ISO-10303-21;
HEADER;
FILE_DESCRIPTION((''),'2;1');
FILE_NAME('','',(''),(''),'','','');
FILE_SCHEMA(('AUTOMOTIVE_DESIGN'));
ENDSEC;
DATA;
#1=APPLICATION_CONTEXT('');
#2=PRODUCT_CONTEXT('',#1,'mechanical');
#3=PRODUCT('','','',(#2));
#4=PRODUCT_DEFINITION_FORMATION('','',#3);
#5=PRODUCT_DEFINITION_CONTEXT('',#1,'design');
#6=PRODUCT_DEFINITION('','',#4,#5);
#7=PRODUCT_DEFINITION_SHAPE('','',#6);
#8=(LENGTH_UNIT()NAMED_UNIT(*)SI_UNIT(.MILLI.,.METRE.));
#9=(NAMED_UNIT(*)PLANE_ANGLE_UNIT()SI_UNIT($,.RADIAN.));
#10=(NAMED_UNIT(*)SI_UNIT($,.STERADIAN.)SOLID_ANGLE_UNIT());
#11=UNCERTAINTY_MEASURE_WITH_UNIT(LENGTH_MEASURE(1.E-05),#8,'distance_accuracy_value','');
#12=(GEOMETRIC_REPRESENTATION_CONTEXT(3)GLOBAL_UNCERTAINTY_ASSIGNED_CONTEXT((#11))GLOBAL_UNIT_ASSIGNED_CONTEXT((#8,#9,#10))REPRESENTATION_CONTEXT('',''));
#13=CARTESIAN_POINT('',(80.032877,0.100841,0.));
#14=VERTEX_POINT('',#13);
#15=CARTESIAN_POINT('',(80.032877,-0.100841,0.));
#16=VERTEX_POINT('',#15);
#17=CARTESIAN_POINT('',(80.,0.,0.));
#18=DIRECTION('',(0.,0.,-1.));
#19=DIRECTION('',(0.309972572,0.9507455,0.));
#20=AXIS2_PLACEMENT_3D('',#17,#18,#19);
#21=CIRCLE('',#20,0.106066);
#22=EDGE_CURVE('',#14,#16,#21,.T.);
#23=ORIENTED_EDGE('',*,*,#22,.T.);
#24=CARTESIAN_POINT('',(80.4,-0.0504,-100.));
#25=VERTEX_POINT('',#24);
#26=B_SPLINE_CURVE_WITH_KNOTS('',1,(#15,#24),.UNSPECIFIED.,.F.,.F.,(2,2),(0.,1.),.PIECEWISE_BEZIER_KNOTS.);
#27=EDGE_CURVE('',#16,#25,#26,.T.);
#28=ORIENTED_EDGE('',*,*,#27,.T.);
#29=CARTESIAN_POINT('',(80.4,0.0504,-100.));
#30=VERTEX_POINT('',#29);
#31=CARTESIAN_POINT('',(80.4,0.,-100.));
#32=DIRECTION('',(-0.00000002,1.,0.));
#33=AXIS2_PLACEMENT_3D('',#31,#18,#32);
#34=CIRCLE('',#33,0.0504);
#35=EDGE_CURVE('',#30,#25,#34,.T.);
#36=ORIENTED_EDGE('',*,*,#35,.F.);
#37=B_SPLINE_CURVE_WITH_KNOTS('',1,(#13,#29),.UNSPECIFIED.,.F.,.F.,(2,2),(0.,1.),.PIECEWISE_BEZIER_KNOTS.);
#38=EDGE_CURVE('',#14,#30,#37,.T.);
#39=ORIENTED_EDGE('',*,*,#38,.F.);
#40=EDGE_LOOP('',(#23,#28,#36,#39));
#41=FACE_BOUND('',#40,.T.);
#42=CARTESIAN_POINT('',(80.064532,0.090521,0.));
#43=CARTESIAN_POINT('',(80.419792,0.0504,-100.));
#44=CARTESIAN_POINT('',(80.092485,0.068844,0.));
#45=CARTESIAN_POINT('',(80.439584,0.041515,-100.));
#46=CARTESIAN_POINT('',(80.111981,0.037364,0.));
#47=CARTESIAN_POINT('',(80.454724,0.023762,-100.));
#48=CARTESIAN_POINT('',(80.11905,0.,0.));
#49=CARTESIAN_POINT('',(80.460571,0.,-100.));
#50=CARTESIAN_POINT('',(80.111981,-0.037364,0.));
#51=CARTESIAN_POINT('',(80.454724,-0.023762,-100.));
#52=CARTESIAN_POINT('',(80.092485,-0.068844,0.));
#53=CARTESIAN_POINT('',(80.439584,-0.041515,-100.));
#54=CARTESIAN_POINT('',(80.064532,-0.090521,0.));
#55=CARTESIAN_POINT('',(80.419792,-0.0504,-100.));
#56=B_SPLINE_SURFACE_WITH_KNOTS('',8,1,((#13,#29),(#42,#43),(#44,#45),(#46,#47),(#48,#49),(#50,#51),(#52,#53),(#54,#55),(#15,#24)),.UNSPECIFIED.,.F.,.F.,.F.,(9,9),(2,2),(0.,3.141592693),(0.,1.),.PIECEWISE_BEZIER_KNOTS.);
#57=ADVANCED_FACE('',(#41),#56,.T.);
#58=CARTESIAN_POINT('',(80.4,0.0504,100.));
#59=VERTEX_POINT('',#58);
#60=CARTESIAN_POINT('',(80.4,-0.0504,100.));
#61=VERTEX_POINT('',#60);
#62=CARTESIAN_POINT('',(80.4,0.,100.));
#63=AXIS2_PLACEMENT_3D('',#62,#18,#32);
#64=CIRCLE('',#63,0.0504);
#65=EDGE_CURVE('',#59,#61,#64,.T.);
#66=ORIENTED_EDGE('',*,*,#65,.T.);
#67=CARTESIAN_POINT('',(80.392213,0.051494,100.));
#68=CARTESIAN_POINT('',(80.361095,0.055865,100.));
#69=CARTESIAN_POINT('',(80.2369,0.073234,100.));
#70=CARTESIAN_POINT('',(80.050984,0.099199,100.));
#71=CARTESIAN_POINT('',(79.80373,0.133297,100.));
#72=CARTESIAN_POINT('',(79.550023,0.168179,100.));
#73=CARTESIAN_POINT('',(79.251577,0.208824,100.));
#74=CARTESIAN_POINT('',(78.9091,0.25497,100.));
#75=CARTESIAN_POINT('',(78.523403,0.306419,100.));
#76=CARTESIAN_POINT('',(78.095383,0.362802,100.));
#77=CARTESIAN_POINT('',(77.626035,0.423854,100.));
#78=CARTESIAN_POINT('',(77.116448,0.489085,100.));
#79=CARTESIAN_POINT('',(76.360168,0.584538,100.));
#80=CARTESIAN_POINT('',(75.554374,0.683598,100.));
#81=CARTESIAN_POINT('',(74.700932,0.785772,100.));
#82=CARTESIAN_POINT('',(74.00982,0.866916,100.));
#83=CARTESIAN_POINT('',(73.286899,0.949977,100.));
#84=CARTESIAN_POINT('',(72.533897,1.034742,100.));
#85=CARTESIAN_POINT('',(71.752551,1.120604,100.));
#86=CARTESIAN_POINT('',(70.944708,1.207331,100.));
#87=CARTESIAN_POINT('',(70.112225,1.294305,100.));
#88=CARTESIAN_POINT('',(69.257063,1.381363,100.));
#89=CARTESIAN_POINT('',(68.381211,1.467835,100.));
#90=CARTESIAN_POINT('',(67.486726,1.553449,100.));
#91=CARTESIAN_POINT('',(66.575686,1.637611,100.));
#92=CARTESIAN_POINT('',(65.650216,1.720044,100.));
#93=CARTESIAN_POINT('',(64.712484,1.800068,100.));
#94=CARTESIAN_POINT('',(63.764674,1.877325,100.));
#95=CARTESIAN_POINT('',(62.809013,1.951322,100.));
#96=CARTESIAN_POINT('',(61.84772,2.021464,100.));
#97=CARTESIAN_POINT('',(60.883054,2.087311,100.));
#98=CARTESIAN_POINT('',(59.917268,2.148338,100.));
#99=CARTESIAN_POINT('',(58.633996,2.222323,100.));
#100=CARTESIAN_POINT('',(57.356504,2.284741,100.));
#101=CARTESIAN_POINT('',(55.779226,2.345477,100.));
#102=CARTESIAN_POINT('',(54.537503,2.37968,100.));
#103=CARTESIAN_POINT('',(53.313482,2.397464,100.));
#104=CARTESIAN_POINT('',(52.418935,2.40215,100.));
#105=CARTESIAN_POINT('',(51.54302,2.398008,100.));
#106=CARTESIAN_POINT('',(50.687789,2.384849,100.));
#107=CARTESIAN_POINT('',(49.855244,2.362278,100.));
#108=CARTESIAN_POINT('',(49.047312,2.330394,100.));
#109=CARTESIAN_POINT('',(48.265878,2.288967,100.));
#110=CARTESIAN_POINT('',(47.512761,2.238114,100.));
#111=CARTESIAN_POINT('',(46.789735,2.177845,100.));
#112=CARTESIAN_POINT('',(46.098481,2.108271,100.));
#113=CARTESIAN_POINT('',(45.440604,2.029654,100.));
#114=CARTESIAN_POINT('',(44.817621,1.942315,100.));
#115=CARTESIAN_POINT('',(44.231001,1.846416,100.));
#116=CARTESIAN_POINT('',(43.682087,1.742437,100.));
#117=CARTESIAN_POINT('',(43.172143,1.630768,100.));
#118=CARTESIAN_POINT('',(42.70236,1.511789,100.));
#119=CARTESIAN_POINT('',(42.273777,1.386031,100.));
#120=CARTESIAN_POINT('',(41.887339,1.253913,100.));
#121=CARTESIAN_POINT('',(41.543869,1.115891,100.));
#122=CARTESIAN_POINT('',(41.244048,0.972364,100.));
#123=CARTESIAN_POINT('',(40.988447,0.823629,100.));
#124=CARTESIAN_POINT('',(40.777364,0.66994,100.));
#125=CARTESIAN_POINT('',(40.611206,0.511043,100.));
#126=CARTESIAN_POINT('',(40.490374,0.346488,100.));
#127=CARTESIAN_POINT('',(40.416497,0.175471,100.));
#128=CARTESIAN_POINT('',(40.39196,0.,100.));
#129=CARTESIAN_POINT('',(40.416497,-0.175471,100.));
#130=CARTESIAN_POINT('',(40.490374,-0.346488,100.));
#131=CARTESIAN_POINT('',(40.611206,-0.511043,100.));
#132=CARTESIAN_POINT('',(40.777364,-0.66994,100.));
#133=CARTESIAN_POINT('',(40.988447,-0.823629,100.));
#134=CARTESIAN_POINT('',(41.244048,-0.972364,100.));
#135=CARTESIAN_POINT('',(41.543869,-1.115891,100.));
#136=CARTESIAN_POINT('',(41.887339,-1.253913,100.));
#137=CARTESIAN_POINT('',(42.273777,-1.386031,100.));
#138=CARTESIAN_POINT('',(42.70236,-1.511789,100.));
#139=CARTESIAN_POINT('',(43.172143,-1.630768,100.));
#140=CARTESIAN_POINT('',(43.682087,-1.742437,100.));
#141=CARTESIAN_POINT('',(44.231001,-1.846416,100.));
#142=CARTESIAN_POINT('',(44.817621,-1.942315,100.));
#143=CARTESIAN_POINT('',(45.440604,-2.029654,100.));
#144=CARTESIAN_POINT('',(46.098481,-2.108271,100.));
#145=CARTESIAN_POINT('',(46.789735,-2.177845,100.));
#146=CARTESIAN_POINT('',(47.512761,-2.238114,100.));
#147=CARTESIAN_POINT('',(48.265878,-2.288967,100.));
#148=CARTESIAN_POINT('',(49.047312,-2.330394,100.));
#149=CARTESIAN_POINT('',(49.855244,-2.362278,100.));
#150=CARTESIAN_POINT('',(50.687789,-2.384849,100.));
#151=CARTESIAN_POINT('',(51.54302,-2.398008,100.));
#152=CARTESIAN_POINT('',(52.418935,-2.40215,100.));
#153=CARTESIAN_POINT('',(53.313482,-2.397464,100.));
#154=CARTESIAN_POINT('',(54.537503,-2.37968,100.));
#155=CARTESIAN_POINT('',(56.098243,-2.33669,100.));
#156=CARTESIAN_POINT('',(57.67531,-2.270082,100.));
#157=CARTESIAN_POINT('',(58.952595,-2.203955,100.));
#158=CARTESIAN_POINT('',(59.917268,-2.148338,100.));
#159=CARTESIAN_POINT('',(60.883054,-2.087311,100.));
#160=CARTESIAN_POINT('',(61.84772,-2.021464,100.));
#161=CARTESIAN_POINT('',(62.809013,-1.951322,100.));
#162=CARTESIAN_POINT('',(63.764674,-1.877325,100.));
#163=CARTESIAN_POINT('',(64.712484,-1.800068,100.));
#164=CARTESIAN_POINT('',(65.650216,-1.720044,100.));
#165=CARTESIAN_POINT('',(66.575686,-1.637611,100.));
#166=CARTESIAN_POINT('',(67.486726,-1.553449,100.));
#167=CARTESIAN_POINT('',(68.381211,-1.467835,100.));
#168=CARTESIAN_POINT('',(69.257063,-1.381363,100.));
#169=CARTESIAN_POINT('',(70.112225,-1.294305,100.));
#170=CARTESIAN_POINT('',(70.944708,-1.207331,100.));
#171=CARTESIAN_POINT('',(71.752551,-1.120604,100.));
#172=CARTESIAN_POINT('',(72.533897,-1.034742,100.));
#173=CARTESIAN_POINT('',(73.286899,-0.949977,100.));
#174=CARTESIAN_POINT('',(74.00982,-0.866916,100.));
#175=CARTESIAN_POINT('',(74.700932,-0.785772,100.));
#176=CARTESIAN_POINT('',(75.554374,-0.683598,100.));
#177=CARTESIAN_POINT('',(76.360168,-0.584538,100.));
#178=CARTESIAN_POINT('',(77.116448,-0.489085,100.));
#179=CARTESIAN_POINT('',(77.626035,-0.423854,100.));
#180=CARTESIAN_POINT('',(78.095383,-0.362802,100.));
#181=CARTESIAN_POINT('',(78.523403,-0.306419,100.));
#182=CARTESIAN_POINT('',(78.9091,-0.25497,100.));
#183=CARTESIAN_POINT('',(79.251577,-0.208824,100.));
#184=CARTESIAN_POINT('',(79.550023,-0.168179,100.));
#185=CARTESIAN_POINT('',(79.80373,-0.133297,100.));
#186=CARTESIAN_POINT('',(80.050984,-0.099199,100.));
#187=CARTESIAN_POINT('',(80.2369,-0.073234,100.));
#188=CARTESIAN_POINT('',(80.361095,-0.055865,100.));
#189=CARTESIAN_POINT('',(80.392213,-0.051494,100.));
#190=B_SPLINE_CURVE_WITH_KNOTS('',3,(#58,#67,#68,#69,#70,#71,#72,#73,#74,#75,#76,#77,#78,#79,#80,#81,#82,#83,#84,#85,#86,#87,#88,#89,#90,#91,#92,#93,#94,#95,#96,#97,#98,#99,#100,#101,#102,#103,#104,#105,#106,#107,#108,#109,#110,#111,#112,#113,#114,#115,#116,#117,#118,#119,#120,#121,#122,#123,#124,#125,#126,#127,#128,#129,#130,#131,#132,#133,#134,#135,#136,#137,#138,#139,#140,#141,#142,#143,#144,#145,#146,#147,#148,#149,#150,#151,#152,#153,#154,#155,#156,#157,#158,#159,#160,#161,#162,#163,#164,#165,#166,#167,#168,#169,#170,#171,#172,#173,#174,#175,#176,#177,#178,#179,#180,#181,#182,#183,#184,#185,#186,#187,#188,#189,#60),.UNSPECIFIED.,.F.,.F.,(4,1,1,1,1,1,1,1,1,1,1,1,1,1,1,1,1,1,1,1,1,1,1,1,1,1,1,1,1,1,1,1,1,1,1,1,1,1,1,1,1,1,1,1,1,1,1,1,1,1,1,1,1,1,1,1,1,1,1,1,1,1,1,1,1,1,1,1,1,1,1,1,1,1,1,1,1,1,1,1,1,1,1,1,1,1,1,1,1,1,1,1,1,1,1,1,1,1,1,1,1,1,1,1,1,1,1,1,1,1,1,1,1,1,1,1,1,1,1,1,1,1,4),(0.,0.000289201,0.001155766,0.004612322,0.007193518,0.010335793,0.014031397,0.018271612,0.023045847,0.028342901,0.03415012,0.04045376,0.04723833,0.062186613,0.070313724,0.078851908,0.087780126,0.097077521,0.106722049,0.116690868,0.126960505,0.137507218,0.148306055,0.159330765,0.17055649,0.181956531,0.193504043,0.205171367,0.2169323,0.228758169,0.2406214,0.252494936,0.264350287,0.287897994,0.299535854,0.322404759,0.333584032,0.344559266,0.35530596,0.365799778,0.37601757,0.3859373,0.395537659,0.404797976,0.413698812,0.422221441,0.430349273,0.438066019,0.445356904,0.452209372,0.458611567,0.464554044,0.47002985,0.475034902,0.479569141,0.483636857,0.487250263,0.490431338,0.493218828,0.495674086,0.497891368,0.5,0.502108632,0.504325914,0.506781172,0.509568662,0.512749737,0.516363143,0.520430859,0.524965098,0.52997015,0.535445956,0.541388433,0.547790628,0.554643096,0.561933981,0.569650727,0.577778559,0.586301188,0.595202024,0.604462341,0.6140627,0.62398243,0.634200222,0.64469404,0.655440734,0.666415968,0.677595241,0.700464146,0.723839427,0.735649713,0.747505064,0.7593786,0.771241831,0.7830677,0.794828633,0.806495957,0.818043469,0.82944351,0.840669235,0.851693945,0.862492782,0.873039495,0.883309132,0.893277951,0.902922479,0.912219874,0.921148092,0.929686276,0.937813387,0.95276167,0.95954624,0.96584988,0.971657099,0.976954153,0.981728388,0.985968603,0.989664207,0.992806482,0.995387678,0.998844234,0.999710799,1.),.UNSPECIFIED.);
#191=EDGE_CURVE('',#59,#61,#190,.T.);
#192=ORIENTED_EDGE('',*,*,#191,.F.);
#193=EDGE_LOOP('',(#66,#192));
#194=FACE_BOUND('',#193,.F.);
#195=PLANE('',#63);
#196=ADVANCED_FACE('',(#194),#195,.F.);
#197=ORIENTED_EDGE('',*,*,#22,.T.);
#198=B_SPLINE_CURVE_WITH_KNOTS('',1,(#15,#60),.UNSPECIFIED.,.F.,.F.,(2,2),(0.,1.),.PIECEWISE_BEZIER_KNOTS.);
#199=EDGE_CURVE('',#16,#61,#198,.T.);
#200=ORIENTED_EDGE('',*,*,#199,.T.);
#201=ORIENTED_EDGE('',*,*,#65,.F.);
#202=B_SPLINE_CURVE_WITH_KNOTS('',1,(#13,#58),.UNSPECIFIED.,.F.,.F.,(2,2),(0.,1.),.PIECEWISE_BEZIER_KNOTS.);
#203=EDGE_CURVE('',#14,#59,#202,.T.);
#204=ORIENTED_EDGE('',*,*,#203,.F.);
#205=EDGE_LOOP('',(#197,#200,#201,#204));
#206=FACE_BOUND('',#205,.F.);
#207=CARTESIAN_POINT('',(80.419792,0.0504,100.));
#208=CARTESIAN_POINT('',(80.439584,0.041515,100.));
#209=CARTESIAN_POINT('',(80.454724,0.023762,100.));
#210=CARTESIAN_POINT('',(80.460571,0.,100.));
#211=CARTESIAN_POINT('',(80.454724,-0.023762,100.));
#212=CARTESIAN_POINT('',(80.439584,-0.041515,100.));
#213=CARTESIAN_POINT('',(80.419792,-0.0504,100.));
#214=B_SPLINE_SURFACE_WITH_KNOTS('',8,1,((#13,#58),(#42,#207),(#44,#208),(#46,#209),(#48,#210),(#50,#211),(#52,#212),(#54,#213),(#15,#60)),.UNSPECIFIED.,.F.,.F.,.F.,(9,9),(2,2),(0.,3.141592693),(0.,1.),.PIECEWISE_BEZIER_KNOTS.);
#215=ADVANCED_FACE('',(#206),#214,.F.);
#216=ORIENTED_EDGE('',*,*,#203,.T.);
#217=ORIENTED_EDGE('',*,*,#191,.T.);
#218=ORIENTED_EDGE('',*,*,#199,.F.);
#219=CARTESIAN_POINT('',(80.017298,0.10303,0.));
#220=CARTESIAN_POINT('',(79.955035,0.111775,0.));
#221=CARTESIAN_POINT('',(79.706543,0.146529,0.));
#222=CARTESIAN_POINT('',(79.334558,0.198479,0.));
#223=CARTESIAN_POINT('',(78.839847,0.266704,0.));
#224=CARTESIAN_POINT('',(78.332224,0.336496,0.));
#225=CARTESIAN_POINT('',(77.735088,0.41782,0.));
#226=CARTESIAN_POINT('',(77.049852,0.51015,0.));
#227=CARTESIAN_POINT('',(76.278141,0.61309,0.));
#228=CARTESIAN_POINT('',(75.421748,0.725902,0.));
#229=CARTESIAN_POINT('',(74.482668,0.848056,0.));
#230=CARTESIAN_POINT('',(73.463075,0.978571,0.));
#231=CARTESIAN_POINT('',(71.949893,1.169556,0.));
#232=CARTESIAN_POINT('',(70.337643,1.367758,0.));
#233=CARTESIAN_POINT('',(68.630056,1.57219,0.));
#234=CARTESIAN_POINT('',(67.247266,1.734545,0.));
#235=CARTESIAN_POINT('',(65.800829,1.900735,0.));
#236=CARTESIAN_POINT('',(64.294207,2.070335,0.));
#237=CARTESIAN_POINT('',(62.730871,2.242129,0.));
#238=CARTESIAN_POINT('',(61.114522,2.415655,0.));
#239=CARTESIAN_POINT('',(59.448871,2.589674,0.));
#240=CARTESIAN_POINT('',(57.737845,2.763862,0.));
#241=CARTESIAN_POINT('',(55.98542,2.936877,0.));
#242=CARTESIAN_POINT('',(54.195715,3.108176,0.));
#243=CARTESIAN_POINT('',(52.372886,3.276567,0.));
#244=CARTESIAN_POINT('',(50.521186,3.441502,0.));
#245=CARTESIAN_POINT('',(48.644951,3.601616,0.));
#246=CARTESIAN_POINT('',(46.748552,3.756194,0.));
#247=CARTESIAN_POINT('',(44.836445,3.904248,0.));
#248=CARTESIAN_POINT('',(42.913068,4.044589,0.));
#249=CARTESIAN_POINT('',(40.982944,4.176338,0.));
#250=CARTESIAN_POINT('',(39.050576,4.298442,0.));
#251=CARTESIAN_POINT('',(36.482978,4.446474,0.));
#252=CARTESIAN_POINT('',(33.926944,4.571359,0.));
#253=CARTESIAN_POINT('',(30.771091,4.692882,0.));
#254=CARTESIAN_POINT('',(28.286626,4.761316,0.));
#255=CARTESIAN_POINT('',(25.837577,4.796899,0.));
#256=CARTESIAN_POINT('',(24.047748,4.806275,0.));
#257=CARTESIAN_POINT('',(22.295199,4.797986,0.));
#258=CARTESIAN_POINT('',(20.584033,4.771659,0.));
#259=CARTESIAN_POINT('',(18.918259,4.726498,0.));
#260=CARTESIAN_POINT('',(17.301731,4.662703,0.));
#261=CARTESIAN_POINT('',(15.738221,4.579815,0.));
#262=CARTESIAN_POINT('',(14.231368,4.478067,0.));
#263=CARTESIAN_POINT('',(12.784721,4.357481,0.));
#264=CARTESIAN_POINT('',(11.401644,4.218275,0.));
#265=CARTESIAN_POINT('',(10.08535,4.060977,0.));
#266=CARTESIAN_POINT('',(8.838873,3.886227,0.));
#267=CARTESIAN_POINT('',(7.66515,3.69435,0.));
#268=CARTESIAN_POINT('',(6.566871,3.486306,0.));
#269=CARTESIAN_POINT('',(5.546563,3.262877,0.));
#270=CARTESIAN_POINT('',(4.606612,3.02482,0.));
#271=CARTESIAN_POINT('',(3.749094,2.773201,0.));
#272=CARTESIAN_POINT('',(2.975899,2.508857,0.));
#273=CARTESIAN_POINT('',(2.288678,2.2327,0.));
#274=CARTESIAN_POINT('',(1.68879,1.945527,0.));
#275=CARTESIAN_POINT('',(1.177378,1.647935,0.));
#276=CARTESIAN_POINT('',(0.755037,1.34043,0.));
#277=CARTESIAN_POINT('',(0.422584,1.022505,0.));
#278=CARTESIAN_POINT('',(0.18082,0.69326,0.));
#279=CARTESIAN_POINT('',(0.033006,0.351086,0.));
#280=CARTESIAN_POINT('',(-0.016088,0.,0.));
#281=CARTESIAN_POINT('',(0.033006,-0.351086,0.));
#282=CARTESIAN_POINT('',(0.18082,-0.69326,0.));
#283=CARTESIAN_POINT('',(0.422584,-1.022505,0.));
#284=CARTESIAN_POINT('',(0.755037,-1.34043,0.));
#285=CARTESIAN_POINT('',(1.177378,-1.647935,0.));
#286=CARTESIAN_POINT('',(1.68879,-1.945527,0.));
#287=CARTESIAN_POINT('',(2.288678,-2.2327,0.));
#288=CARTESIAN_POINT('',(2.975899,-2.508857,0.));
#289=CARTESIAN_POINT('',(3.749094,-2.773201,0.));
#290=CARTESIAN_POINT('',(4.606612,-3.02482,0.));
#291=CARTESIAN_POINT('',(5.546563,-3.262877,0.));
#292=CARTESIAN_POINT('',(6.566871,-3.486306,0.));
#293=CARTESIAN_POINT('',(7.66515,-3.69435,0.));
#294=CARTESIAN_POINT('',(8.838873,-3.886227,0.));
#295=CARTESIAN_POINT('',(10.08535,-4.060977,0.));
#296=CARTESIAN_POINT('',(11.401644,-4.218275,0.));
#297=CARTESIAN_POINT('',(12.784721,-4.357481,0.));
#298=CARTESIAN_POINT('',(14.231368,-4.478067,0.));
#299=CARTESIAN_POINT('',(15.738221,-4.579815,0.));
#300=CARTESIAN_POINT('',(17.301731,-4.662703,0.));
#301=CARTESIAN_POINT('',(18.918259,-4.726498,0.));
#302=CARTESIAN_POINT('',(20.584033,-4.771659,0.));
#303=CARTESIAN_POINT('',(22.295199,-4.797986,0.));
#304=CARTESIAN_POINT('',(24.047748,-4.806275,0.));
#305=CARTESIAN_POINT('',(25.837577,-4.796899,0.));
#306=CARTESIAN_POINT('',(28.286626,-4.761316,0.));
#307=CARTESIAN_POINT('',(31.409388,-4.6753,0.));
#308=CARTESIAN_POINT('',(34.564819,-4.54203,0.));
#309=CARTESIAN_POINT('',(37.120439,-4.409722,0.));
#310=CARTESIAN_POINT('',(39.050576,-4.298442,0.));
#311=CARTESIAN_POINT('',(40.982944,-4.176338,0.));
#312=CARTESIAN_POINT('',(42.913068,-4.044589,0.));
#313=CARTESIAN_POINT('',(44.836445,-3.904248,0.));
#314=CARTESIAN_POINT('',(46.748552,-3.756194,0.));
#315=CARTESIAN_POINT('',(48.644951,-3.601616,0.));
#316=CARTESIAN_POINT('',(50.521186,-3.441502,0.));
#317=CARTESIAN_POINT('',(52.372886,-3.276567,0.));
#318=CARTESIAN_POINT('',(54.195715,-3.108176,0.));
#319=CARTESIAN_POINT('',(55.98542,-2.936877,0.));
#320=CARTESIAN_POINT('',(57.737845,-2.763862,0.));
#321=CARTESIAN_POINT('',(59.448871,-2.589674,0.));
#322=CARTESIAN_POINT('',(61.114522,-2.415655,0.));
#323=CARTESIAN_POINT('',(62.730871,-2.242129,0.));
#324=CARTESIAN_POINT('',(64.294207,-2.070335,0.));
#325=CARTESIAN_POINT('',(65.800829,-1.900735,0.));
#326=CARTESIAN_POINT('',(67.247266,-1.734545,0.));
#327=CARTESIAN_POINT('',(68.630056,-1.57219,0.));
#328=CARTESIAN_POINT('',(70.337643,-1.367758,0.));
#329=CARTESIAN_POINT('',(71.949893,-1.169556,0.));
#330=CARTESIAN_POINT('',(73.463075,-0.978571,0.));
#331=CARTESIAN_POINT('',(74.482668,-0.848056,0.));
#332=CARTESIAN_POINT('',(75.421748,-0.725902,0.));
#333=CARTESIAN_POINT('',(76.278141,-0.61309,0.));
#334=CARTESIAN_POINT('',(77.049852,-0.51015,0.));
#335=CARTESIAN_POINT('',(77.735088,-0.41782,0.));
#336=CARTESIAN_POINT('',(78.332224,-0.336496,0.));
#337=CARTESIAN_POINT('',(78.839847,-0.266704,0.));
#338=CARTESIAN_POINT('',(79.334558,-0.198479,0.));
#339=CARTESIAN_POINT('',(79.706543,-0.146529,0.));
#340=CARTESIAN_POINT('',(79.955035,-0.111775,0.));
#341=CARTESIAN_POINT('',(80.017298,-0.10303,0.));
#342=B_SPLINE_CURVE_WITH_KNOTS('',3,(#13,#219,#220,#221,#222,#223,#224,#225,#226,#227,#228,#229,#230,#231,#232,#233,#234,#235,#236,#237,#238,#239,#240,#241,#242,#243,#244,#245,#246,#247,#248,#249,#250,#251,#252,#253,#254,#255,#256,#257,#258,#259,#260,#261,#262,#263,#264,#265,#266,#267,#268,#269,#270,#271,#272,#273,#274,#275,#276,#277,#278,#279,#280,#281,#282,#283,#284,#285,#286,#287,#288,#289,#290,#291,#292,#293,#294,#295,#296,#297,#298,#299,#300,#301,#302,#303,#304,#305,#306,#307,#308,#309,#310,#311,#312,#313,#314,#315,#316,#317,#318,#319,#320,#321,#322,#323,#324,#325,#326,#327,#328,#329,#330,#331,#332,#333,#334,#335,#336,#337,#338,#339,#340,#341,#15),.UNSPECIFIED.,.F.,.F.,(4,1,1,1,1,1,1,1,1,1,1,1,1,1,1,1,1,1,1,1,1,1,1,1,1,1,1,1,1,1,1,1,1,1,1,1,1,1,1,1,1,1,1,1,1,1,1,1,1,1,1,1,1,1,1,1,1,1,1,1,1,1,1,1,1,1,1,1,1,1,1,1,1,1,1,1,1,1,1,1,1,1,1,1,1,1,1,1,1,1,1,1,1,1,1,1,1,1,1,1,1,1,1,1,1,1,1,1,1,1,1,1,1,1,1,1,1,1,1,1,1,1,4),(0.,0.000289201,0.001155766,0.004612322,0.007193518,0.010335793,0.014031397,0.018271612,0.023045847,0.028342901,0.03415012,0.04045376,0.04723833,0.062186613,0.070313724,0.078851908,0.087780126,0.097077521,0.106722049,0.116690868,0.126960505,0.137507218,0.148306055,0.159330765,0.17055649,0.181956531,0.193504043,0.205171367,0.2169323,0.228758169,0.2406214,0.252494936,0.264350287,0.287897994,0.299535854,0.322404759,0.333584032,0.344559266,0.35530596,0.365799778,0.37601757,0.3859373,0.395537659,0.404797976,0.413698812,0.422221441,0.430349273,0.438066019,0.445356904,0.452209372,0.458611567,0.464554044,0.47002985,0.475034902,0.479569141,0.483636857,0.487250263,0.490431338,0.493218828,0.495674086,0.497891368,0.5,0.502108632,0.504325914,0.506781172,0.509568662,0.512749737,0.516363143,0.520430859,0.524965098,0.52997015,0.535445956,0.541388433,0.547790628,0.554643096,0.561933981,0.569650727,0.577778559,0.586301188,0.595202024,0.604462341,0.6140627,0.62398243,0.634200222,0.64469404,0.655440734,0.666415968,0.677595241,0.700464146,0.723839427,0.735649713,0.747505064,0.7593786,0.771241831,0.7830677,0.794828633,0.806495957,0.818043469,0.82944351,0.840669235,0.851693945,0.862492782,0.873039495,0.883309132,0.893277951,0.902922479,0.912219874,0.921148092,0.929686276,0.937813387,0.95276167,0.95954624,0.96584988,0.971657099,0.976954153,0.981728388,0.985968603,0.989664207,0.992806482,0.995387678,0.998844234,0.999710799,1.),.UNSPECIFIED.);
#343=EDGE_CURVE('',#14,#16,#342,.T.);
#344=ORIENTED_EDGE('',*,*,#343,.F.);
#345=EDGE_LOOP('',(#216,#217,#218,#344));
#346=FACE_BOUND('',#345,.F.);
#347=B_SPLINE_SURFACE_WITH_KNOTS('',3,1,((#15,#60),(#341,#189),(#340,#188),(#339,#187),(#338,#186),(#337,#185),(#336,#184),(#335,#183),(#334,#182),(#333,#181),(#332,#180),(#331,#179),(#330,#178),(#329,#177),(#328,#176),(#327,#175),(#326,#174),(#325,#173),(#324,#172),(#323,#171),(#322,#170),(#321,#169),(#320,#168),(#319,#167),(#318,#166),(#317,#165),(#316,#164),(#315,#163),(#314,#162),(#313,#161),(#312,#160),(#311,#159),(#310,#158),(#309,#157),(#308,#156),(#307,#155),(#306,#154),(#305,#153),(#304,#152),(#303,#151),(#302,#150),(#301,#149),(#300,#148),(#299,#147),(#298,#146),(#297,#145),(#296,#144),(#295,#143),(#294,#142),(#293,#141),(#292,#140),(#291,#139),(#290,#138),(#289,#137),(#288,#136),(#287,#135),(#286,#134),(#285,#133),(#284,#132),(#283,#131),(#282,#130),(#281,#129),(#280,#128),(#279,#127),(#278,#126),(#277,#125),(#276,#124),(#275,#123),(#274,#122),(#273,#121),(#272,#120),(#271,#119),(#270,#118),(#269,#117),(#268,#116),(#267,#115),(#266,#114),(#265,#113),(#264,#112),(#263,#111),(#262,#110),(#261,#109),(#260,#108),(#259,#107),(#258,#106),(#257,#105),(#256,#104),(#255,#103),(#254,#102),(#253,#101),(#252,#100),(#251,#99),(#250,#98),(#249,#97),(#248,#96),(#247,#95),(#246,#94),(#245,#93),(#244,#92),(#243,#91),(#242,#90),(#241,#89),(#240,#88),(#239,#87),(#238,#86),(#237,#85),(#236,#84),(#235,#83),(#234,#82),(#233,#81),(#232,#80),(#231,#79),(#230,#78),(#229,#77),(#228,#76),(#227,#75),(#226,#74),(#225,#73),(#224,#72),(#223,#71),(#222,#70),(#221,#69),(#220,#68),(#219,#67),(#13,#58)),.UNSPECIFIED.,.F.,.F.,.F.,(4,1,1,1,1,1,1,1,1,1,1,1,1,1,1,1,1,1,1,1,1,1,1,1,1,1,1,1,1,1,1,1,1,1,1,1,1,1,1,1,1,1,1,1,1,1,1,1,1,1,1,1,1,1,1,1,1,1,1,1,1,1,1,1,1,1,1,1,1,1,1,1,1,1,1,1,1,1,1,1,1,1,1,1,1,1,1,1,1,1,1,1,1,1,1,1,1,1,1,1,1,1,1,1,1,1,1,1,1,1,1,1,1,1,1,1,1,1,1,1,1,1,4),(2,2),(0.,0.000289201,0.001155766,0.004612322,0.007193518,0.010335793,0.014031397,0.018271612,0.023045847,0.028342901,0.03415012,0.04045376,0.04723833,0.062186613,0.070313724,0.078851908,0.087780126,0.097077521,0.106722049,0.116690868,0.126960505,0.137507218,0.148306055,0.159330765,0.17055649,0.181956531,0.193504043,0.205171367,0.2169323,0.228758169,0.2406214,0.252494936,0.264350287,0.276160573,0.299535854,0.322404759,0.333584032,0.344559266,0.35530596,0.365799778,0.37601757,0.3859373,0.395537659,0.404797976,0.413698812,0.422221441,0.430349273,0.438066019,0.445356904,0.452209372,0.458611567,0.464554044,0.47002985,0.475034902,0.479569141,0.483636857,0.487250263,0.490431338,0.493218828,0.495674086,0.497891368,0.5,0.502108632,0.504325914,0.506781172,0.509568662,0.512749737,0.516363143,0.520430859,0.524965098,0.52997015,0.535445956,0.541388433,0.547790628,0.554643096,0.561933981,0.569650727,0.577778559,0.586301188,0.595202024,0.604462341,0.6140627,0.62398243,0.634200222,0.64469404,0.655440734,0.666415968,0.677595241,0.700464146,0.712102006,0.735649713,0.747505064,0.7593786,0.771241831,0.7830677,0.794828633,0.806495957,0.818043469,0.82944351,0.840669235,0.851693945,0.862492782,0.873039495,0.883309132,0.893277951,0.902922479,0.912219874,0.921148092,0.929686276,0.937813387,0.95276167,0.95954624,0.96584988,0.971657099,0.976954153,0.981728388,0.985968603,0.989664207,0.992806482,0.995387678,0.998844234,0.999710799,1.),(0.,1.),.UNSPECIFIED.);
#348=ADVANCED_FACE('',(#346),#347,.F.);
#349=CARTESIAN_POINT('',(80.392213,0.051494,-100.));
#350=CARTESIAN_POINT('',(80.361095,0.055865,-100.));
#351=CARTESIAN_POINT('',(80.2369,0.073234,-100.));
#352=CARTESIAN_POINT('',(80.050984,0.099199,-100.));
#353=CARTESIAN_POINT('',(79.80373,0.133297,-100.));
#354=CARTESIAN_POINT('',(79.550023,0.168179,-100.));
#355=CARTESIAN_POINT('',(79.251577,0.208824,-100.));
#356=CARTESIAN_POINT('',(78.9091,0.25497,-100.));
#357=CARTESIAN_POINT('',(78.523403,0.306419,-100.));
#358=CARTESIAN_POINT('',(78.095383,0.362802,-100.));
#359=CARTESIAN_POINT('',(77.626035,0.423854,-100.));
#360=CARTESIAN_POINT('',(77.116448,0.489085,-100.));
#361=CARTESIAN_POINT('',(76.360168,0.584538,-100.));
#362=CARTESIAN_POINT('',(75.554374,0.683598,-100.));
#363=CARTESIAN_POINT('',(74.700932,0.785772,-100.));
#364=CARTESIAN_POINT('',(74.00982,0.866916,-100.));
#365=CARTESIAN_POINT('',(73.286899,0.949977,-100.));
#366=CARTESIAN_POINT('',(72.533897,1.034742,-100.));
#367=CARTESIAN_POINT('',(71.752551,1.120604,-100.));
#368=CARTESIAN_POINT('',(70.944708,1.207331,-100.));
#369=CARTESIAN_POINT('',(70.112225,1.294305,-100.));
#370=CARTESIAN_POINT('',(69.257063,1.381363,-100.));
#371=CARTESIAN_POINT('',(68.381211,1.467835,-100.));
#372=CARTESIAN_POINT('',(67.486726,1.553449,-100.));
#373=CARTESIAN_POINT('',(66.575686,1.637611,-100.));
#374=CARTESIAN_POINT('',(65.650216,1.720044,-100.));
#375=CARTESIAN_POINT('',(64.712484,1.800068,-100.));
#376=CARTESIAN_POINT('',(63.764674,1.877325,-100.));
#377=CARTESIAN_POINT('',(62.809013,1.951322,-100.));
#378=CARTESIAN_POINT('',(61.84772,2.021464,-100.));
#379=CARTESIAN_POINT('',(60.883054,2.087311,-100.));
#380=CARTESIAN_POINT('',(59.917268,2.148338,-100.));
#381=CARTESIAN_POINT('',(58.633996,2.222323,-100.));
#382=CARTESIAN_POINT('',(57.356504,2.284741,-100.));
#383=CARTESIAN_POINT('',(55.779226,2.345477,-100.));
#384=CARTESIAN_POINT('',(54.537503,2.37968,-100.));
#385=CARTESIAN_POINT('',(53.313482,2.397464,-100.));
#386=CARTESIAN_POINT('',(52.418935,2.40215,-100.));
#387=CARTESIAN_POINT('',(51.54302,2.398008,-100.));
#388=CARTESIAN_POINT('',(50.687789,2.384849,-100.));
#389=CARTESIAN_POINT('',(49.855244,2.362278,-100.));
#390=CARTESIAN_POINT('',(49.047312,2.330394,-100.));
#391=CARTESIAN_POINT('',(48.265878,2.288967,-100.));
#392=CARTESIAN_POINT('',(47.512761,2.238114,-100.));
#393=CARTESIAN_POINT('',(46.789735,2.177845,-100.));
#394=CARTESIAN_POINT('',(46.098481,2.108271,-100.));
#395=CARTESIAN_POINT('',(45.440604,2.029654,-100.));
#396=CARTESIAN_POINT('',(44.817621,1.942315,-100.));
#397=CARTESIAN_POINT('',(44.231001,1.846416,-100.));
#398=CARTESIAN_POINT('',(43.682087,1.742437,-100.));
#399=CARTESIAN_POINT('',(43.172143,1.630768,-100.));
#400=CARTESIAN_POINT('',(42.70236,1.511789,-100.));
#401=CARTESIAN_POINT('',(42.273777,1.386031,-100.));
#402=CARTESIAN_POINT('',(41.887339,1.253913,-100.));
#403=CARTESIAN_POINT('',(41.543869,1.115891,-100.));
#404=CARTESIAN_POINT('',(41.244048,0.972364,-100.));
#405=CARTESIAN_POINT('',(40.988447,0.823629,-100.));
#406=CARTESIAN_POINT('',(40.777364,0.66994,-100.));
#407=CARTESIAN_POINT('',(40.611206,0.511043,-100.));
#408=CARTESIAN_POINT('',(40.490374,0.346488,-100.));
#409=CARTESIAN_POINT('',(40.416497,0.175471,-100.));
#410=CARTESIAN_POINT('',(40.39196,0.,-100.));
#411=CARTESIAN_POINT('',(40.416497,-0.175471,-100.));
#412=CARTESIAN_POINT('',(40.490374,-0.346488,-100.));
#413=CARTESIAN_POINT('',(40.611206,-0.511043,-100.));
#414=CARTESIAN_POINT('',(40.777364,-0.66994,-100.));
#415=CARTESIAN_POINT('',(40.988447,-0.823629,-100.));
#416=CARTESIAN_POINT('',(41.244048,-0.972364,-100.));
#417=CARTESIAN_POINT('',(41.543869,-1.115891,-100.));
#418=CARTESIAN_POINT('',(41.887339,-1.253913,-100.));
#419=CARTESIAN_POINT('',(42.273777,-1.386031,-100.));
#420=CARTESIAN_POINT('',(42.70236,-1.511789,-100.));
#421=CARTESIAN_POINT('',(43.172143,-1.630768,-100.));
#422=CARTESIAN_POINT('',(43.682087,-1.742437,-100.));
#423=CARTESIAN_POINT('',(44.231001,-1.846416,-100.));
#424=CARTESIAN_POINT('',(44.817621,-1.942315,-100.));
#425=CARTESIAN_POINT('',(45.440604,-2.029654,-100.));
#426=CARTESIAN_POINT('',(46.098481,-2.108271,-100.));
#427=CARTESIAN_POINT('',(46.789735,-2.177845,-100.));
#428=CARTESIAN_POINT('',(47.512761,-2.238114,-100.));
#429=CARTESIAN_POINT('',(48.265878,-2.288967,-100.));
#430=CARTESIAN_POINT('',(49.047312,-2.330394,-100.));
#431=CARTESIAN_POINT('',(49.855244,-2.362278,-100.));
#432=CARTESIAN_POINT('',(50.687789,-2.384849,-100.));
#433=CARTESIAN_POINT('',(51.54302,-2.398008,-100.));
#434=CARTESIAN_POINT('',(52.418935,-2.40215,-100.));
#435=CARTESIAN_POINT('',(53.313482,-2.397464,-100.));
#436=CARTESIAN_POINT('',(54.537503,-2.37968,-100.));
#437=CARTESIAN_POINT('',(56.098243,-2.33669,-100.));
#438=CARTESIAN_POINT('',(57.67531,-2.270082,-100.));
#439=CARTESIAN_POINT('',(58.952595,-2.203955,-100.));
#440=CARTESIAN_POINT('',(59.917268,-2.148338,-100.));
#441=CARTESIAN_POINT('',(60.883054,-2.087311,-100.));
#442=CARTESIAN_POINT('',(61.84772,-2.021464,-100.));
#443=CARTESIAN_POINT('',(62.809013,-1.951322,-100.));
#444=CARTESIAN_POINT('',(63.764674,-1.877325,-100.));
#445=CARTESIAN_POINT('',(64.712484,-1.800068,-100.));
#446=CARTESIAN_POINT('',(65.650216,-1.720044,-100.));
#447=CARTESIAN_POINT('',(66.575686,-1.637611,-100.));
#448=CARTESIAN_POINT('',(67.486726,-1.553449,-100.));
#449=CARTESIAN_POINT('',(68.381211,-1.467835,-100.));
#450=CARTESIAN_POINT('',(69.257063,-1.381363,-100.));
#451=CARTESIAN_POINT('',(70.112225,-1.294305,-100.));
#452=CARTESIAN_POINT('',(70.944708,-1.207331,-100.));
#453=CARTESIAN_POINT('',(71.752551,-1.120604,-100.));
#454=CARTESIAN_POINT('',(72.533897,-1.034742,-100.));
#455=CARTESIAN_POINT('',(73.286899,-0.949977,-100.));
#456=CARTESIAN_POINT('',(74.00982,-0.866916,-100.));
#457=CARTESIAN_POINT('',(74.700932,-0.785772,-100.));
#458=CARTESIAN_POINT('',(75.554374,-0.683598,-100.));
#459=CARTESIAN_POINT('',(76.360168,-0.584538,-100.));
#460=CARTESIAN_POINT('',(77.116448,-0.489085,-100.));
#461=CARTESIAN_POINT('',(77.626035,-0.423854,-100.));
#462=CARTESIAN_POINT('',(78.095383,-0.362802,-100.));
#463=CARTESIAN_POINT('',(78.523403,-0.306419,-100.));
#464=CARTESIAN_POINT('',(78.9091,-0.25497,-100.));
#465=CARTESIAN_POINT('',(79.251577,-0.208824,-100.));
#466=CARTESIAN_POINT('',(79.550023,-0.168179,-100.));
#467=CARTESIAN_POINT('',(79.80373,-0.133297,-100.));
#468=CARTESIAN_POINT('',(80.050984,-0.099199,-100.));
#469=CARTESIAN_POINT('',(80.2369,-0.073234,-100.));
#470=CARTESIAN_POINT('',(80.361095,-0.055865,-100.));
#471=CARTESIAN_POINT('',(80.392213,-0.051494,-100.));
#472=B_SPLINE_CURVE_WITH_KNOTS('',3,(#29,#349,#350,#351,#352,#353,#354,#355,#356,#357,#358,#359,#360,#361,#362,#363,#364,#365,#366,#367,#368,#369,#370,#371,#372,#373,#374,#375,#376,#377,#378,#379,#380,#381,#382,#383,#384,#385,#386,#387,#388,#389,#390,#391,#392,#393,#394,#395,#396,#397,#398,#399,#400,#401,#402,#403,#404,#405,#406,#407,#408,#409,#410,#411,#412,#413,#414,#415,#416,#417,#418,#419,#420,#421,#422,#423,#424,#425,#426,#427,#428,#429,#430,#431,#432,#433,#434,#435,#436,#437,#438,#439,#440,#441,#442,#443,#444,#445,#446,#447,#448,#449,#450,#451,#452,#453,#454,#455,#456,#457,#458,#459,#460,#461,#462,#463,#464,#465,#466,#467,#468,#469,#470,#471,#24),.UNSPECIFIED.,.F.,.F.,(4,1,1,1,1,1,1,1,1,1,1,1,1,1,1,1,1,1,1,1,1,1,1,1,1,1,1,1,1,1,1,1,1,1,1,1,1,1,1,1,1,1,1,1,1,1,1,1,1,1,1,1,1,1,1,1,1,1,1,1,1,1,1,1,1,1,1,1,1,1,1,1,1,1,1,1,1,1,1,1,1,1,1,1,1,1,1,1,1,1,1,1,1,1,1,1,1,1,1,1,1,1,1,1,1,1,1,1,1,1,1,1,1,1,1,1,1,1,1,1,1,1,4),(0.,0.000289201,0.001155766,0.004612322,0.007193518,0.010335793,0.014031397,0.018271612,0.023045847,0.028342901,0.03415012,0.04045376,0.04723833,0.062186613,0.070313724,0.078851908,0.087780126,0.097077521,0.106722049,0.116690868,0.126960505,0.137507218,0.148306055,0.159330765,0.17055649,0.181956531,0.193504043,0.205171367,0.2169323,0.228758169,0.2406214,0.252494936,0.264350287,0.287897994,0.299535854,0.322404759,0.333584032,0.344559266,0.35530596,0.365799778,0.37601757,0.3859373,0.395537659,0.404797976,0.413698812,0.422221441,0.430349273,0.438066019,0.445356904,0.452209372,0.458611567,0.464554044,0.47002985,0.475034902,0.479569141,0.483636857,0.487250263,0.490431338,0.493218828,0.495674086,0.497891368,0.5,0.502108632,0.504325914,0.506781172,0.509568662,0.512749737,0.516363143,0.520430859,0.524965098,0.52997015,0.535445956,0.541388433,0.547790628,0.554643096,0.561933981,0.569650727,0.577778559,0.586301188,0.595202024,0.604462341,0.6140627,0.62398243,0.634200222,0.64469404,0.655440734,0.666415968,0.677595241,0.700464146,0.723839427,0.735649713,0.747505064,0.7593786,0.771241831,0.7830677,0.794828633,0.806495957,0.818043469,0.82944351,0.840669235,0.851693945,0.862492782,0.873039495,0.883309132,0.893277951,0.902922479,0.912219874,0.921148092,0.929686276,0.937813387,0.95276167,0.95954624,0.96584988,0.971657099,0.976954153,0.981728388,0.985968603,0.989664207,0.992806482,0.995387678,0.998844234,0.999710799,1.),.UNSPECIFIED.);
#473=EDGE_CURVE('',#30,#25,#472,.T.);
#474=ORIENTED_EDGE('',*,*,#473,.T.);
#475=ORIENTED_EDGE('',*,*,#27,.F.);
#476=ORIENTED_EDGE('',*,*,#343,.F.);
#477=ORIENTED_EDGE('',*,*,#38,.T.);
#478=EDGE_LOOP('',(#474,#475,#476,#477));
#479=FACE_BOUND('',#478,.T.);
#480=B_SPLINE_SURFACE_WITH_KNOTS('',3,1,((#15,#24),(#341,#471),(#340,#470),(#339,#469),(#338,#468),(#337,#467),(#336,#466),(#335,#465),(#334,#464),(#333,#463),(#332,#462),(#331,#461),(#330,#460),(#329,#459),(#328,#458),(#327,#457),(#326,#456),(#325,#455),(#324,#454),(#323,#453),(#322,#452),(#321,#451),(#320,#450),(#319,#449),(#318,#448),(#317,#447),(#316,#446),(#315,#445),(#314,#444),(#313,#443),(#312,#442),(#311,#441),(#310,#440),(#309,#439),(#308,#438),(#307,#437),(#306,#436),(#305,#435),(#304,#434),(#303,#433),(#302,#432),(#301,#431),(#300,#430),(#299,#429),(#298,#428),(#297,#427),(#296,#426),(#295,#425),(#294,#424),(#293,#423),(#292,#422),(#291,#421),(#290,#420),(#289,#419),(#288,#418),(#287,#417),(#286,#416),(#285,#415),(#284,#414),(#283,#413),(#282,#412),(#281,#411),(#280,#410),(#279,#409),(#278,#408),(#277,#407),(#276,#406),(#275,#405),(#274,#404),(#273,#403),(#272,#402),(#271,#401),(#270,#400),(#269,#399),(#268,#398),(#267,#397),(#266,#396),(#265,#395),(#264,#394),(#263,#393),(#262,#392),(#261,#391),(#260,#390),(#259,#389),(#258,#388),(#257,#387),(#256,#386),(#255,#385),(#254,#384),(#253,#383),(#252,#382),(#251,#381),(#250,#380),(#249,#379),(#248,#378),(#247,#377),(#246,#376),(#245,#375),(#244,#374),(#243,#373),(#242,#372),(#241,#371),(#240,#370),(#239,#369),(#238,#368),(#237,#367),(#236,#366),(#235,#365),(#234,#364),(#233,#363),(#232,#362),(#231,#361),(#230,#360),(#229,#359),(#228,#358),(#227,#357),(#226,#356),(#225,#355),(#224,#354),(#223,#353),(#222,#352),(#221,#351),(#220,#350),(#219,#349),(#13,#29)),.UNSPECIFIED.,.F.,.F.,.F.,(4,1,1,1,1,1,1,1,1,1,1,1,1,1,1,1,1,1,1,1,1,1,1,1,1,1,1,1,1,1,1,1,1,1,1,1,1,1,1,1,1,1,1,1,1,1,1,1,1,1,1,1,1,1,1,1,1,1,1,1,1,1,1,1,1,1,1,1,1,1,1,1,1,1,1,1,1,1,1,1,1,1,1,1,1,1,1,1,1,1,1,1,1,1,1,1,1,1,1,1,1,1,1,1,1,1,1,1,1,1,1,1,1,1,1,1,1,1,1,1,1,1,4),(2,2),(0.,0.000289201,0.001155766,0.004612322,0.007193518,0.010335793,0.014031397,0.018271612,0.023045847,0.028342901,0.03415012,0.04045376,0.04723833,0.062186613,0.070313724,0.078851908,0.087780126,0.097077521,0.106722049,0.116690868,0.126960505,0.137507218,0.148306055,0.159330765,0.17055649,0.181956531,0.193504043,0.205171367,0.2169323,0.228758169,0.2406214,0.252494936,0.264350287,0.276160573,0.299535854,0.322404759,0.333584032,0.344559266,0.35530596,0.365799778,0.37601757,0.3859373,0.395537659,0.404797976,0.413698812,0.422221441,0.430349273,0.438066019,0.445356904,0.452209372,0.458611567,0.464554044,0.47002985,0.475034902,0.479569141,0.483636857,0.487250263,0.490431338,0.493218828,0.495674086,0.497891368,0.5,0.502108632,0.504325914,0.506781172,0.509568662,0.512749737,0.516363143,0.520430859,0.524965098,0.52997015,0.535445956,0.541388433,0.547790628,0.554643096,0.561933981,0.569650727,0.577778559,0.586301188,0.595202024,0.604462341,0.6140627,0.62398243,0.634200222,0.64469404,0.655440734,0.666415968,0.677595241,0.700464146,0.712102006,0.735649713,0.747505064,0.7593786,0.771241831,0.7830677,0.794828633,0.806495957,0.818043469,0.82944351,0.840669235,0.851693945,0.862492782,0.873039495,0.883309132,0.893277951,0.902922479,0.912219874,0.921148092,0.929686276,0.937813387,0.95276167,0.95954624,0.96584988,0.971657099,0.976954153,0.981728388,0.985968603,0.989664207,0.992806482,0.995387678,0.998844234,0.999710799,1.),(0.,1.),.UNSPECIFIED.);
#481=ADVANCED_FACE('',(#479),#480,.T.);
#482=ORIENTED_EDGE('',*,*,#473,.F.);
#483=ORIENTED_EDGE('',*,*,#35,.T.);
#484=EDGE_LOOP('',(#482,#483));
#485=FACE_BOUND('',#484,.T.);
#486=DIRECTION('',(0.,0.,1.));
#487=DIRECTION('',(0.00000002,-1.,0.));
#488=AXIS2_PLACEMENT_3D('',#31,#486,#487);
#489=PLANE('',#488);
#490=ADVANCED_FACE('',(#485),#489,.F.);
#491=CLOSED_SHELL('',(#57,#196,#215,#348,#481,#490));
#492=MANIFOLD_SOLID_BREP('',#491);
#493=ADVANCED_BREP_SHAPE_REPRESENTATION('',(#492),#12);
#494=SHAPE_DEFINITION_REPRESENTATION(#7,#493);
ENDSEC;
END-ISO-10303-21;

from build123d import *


with BuildPart() as part:
    # Sketch1 → Loft1 section 0
    with BuildSketch(Plane.XY):
        with BuildLine():
            ThreePointArc((80.032877443, 0.100841426), (80.106065641, 0), (80.032877443, -0.100841426))
            add(Edge.make_bspline(
                [(80.032877443, 0.100841426), (80.017297817, 0.103029758), (79.955035306, 0.111775221), (79.706543392, 0.146529184), (79.334558291, 0.198478896), (78.839846708, 0.26670356), (78.332224081, 0.336495609), (77.735087562, 0.417819911), (77.049852412, 0.510149739), (76.278141395, 0.613090269), (75.421748163, 0.725902447), (74.48266814, 0.848056361), (73.463075127, 0.978571492), (71.949893131, 1.169556443), (70.337643406, 1.36775791), (68.630056308, 1.572190313), (67.24726559, 1.73454522), (65.80082892, 1.900734947), (64.294206827, 2.070335071), (62.730870795, 2.242128962), (61.114521626, 2.415655216), (59.44887106, 2.589673784), (57.737845374, 2.763862188), (55.985419711, 2.936877242), (54.195714517, 3.108175551), (52.372885813, 3.276567372), (50.52118581, 3.441502168), (48.644950565, 3.601616447), (46.748552452, 3.756194036), (44.836444573, 3.904247778), (42.913068342, 4.044589169), (40.982943776, 4.176338003), (39.050576473, 4.298441893), (36.482978361, 4.446473629), (33.926943847, 4.571359479), (30.771091462, 4.692882014), (28.286625998, 4.761316478), (25.837577063, 4.796898753), (24.047747622, 4.80627525), (22.295199071, 4.797986201), (20.584033031, 4.771658928), (18.918259312, 4.726497794), (17.30173127, 4.662702647), (15.738220861, 4.579815103), (14.231368134, 4.478067485), (12.784721389, 4.357481008), (11.401643992, 4.218274839), (10.085349569, 4.060977052), (8.838872692, 3.88622702), (7.665149765, 3.69435049), (6.56687074, 3.486306432), (5.546563287, 3.262877122), (4.606611947, 3.024819962), (3.749093721, 2.77320141), (2.975899435, 2.50885709), (2.288677967, 2.232699988), (1.688789705, 1.945526765), (1.177377513, 1.647935303), (0.755036909, 1.340430078), (0.42258397, 1.02250526), (0.180820416, 0.693260222), (0.033005798, 0.351085652), (-0.016088408, 0), (0.033005798, -0.351085652), (0.180820416, -0.693260222), (0.42258397, -1.02250526), (0.755036909, -1.340430078), (1.177377513, -1.647935303), (1.688789705, -1.945526765), (2.288677967, -2.232699988), (2.975899435, -2.50885709), (3.749093721, -2.77320141), (4.606611947, -3.024819962), (5.546563287, -3.262877122), (6.56687074, -3.486306432), (7.665149765, -3.69435049), (8.838872692, -3.88622702), (10.085349569, -4.060977052), (11.401643992, -4.218274839), (12.784721389, -4.357481008), (14.231368134, -4.478067485), (15.738220861, -4.579815103), (17.30173127, -4.662702647), (18.918259312, -4.726497794), (20.584033031, -4.771658928), (22.295199071, -4.797986201), (24.047747622, -4.80627525), (25.837577063, -4.796898753), (28.286625998, -4.761316478), (31.409387505, -4.675300185), (34.564818798, -4.542030046), (37.120439258, -4.409721599), (39.050576473, -4.298441893), (40.982943776, -4.176338003), (42.913068342, -4.044589169), (44.836444573, -3.904247778), (46.748552452, -3.756194036), (48.644950565, -3.601616447), (50.52118581, -3.441502168), (52.372885813, -3.276567372), (54.195714517, -3.108175551), (55.985419711, -2.936877242), (57.737845374, -2.763862188), (59.44887106, -2.589673784), (61.114521626, -2.415655216), (62.730870795, -2.242128962), (64.294206827, -2.070335071), (65.80082892, -1.900734947), (67.24726559, -1.73454522), (68.630056308, -1.572190313), (70.337643406, -1.36775791), (71.949893131, -1.169556443), (73.463075127, -0.978571492), (74.48266814, -0.848056361), (75.421748163, -0.725902447), (76.278141395, -0.613090269), (77.049852412, -0.510149739), (77.735087562, -0.417819911), (78.332224081, -0.336495609), (78.839846708, -0.26670356), (79.334558291, -0.198478896), (79.706543392, -0.146529184), (79.955035306, -0.111775221), (80.017297817, -0.103029758), (80.032877443, -0.100841426)],
                knots=[0, 0, 0, 0, 0.000289201, 0.001155766, 0.004612322, 0.007193518, 0.010335793, 0.014031397, 0.018271612, 0.023045847, 0.028342901, 0.03415012, 0.04045376, 0.04723833, 0.062186613, 0.070313724, 0.078851908, 0.087780126, 0.097077521, 0.106722049, 0.116690868, 0.126960505, 0.137507218, 0.148306055, 0.159330765, 0.17055649, 0.181956531, 0.193504043, 0.205171367, 0.2169323, 0.228758169, 0.2406214, 0.252494936, 0.264350287, 0.287897994, 0.299535854, 0.322404759, 0.333584032, 0.344559266, 0.35530596, 0.365799778, 0.37601757, 0.3859373, 0.395537659, 0.404797976, 0.413698812, 0.422221441, 0.430349273, 0.438066019, 0.445356904, 0.452209372, 0.458611567, 0.464554044, 0.47002985, 0.475034902, 0.479569141, 0.483636857, 0.487250263, 0.490431338, 0.493218828, 0.495674086, 0.497891368, 0.5, 0.502108632, 0.504325914, 0.506781172, 0.509568662, 0.512749737, 0.516363143, 0.520430859, 0.524965098, 0.52997015, 0.535445956, 0.541388433, 0.547790628, 0.554643096, 0.561933981, 0.569650727, 0.577778559, 0.586301188, 0.595202024, 0.604462341, 0.6140627, 0.62398243, 0.634200222, 0.64469404, 0.655440734, 0.666415968, 0.677595241, 0.700464146, 0.723839427, 0.735649713, 0.747505064, 0.7593786, 0.771241831, 0.7830677, 0.794828633, 0.806495957, 0.818043469, 0.82944351, 0.840669235, 0.851693945, 0.862492782, 0.873039495, 0.883309132, 0.893277951, 0.902922479, 0.912219874, 0.921148092, 0.929686276, 0.937813387, 0.95276167, 0.95954624, 0.96584988, 0.971657099, 0.976954153, 0.981728388, 0.985968603, 0.989664207, 0.992806482, 0.995387678, 0.998844234, 0.999710799, 1, 1, 1, 1], degree=3))
        make_face()
    # Sketch2 → Loft1 section 1
    with BuildSketch(Plane.XY.offset(100)):
        with BuildLine():
            ThreePointArc((80.399999989, 0.050399999), (80.450399989, 0), (80.399999989, -0.050399999))
            add(Edge.make_bspline(
                [(80.399999989, 0.050399999), (80.392213377, 0.051493716), (80.36109491, 0.055864651), (80.236899995, 0.073234494), (80.050983852, 0.099198679), (79.803729677, 0.133296998), (79.550022632, 0.168178686), (79.251577028, 0.208824133), (78.909100204, 0.254970082), (78.52340321, 0.306419202), (78.095382502, 0.362802119), (77.626035383, 0.423853985), (77.116448307, 0.489084742), (76.360168125, 0.584537988), (75.554374427, 0.68359801), (74.700931627, 0.78577222), (74.009820301, 0.866916325), (73.286899072, 0.949977052), (72.533897495, 1.034742277), (71.752550597, 1.120603935), (70.94470802, 1.207331419), (70.112224871, 1.294304958), (69.257063483, 1.381363381), (68.381210609, 1.46783537), (67.486725628, 1.553449338), (66.575685695, 1.63761066), (65.650216044, 1.72004418), (64.712483811, 1.800068431), (63.764674285, 1.877325474), (62.809013104, 1.951321934), (61.847720061, 2.021463803), (60.883054236, 2.087311158), (59.917267505, 2.148338022), (58.633995848, 2.222323483), (57.356503615, 2.284740756), (55.779225653, 2.345477062), (54.537503244, 2.379680237), (53.313481825, 2.397464066), (52.418934746, 2.402150388), (51.543020454, 2.398007567), (50.687788917, 2.384849338), (49.855244218, 2.362278047), (49.047312241, 2.330393577), (48.26587819, 2.288966831), (47.512761343, 2.238113922), (46.78973512, 2.177845452), (46.098480514, 2.108270962), (45.440603676, 2.029654378), (44.817621271, 1.942315256), (44.231000898, 1.846416404), (43.682086978, 1.742437109), (43.172142828, 1.630768347), (42.70236023, 1.511788666), (42.273777256, 1.386031073), (41.887338931, 1.253913211), (41.543869357, 1.115891384), (41.244048446, 0.97236376), (40.988447397, 0.823629156), (40.777363846, 0.669939707), (40.611205665, 0.511042602), (40.490373547, 0.346487711), (40.4164966, 0.175470711), (40.391959581, 0), (40.4164966, -0.175470711), (40.490373547, -0.346487711), (40.611205665, -0.511042602), (40.777363846, -0.669939707), (40.988447397, -0.823629156), (41.244048446, -0.97236376), (41.543869357, -1.115891384), (41.887338931, -1.253913211), (42.273777256, -1.386031074), (42.70236023, -1.511788666), (43.172142828, -1.630768347), (43.682086978, -1.742437109), (44.231000898, -1.846416404), (44.817621271, -1.942315256), (45.440603676, -2.029654378), (46.098480514, -2.108270962), (46.78973512, -2.177845452), (47.512761343, -2.238113922), (48.26587819, -2.288966831), (49.047312241, -2.330393577), (49.855244218, -2.362278047), (50.687788917, -2.384849338), (51.543020454, -2.398007567), (52.418934746, -2.402150388), (53.313481825, -2.397464066), (54.537503244, -2.379680237), (56.098242564, -2.336689759), (57.675310067, -2.270082064), (58.952595358, -2.203955017), (59.917267505, -2.148338022), (60.883054236, -2.087311158), (61.847720061, -2.021463803), (62.809013104, -1.951321934), (63.764674285, -1.877325474), (64.712483811, -1.800068431), (65.650216044, -1.72004418), (66.575685695, -1.63761066), (67.486725628, -1.553449338), (68.381210609, -1.46783537), (69.257063483, -1.381363381), (70.112224871, -1.294304958), (70.94470802, -1.207331419), (71.752550597, -1.120603935), (72.533897495, -1.034742277), (73.286899072, -0.949977052), (74.009820301, -0.866916325), (74.700931627, -0.78577222), (75.554374427, -0.68359801), (76.360168125, -0.584537988), (77.116448307, -0.489084742), (77.626035383, -0.423853985), (78.095382502, -0.362802119), (78.52340321, -0.306419202), (78.909100204, -0.254970082), (79.251577028, -0.208824133), (79.550022632, -0.168178686), (79.803729677, -0.133296998), (80.050983852, -0.099198679), (80.236899995, -0.073234494), (80.36109491, -0.055864651), (80.392213377, -0.051493716), (80.399999989, -0.050399999)],
                knots=[0, 0, 0, 0, 0.000289201, 0.001155766, 0.004612322, 0.007193518, 0.010335793, 0.014031397, 0.018271612, 0.023045847, 0.028342901, 0.03415012, 0.04045376, 0.04723833, 0.062186613, 0.070313724, 0.078851908, 0.087780126, 0.097077521, 0.106722049, 0.116690868, 0.126960505, 0.137507218, 0.148306055, 0.159330765, 0.17055649, 0.181956531, 0.193504043, 0.205171367, 0.2169323, 0.228758169, 0.2406214, 0.252494936, 0.264350287, 0.287897994, 0.299535854, 0.322404759, 0.333584032, 0.344559266, 0.35530596, 0.365799778, 0.37601757, 0.3859373, 0.395537659, 0.404797976, 0.413698812, 0.422221441, 0.430349273, 0.438066019, 0.445356904, 0.452209372, 0.458611567, 0.464554044, 0.47002985, 0.475034902, 0.479569141, 0.483636857, 0.487250263, 0.490431338, 0.493218828, 0.495674086, 0.497891368, 0.5, 0.502108632, 0.504325914, 0.506781172, 0.509568662, 0.512749737, 0.516363143, 0.520430859, 0.524965098, 0.52997015, 0.535445956, 0.541388433, 0.547790628, 0.554643096, 0.561933981, 0.569650727, 0.577778559, 0.586301188, 0.595202024, 0.604462341, 0.6140627, 0.62398243, 0.634200222, 0.64469404, 0.655440734, 0.666415968, 0.677595241, 0.700464146, 0.723839427, 0.735649713, 0.747505064, 0.7593786, 0.771241831, 0.7830677, 0.794828633, 0.806495957, 0.818043469, 0.82944351, 0.840669235, 0.851693945, 0.862492782, 0.873039495, 0.883309132, 0.893277951, 0.902922479, 0.912219874, 0.921148092, 0.929686276, 0.937813387, 0.95276167, 0.95954624, 0.96584988, 0.971657099, 0.976954153, 0.981728388, 0.985968603, 0.989664207, 0.992806482, 0.995387678, 0.998844234, 0.999710799, 1, 1, 1, 1], degree=3))
        make_face()
    loft1 = loft()

    # Mirror1: Loft1 across plane
    add(loft1.mirror(Plane(origin=(0, 0, 0), x_dir=(1, 0, 0), z_dir=(0, 0, -1))))


solid = part.part
